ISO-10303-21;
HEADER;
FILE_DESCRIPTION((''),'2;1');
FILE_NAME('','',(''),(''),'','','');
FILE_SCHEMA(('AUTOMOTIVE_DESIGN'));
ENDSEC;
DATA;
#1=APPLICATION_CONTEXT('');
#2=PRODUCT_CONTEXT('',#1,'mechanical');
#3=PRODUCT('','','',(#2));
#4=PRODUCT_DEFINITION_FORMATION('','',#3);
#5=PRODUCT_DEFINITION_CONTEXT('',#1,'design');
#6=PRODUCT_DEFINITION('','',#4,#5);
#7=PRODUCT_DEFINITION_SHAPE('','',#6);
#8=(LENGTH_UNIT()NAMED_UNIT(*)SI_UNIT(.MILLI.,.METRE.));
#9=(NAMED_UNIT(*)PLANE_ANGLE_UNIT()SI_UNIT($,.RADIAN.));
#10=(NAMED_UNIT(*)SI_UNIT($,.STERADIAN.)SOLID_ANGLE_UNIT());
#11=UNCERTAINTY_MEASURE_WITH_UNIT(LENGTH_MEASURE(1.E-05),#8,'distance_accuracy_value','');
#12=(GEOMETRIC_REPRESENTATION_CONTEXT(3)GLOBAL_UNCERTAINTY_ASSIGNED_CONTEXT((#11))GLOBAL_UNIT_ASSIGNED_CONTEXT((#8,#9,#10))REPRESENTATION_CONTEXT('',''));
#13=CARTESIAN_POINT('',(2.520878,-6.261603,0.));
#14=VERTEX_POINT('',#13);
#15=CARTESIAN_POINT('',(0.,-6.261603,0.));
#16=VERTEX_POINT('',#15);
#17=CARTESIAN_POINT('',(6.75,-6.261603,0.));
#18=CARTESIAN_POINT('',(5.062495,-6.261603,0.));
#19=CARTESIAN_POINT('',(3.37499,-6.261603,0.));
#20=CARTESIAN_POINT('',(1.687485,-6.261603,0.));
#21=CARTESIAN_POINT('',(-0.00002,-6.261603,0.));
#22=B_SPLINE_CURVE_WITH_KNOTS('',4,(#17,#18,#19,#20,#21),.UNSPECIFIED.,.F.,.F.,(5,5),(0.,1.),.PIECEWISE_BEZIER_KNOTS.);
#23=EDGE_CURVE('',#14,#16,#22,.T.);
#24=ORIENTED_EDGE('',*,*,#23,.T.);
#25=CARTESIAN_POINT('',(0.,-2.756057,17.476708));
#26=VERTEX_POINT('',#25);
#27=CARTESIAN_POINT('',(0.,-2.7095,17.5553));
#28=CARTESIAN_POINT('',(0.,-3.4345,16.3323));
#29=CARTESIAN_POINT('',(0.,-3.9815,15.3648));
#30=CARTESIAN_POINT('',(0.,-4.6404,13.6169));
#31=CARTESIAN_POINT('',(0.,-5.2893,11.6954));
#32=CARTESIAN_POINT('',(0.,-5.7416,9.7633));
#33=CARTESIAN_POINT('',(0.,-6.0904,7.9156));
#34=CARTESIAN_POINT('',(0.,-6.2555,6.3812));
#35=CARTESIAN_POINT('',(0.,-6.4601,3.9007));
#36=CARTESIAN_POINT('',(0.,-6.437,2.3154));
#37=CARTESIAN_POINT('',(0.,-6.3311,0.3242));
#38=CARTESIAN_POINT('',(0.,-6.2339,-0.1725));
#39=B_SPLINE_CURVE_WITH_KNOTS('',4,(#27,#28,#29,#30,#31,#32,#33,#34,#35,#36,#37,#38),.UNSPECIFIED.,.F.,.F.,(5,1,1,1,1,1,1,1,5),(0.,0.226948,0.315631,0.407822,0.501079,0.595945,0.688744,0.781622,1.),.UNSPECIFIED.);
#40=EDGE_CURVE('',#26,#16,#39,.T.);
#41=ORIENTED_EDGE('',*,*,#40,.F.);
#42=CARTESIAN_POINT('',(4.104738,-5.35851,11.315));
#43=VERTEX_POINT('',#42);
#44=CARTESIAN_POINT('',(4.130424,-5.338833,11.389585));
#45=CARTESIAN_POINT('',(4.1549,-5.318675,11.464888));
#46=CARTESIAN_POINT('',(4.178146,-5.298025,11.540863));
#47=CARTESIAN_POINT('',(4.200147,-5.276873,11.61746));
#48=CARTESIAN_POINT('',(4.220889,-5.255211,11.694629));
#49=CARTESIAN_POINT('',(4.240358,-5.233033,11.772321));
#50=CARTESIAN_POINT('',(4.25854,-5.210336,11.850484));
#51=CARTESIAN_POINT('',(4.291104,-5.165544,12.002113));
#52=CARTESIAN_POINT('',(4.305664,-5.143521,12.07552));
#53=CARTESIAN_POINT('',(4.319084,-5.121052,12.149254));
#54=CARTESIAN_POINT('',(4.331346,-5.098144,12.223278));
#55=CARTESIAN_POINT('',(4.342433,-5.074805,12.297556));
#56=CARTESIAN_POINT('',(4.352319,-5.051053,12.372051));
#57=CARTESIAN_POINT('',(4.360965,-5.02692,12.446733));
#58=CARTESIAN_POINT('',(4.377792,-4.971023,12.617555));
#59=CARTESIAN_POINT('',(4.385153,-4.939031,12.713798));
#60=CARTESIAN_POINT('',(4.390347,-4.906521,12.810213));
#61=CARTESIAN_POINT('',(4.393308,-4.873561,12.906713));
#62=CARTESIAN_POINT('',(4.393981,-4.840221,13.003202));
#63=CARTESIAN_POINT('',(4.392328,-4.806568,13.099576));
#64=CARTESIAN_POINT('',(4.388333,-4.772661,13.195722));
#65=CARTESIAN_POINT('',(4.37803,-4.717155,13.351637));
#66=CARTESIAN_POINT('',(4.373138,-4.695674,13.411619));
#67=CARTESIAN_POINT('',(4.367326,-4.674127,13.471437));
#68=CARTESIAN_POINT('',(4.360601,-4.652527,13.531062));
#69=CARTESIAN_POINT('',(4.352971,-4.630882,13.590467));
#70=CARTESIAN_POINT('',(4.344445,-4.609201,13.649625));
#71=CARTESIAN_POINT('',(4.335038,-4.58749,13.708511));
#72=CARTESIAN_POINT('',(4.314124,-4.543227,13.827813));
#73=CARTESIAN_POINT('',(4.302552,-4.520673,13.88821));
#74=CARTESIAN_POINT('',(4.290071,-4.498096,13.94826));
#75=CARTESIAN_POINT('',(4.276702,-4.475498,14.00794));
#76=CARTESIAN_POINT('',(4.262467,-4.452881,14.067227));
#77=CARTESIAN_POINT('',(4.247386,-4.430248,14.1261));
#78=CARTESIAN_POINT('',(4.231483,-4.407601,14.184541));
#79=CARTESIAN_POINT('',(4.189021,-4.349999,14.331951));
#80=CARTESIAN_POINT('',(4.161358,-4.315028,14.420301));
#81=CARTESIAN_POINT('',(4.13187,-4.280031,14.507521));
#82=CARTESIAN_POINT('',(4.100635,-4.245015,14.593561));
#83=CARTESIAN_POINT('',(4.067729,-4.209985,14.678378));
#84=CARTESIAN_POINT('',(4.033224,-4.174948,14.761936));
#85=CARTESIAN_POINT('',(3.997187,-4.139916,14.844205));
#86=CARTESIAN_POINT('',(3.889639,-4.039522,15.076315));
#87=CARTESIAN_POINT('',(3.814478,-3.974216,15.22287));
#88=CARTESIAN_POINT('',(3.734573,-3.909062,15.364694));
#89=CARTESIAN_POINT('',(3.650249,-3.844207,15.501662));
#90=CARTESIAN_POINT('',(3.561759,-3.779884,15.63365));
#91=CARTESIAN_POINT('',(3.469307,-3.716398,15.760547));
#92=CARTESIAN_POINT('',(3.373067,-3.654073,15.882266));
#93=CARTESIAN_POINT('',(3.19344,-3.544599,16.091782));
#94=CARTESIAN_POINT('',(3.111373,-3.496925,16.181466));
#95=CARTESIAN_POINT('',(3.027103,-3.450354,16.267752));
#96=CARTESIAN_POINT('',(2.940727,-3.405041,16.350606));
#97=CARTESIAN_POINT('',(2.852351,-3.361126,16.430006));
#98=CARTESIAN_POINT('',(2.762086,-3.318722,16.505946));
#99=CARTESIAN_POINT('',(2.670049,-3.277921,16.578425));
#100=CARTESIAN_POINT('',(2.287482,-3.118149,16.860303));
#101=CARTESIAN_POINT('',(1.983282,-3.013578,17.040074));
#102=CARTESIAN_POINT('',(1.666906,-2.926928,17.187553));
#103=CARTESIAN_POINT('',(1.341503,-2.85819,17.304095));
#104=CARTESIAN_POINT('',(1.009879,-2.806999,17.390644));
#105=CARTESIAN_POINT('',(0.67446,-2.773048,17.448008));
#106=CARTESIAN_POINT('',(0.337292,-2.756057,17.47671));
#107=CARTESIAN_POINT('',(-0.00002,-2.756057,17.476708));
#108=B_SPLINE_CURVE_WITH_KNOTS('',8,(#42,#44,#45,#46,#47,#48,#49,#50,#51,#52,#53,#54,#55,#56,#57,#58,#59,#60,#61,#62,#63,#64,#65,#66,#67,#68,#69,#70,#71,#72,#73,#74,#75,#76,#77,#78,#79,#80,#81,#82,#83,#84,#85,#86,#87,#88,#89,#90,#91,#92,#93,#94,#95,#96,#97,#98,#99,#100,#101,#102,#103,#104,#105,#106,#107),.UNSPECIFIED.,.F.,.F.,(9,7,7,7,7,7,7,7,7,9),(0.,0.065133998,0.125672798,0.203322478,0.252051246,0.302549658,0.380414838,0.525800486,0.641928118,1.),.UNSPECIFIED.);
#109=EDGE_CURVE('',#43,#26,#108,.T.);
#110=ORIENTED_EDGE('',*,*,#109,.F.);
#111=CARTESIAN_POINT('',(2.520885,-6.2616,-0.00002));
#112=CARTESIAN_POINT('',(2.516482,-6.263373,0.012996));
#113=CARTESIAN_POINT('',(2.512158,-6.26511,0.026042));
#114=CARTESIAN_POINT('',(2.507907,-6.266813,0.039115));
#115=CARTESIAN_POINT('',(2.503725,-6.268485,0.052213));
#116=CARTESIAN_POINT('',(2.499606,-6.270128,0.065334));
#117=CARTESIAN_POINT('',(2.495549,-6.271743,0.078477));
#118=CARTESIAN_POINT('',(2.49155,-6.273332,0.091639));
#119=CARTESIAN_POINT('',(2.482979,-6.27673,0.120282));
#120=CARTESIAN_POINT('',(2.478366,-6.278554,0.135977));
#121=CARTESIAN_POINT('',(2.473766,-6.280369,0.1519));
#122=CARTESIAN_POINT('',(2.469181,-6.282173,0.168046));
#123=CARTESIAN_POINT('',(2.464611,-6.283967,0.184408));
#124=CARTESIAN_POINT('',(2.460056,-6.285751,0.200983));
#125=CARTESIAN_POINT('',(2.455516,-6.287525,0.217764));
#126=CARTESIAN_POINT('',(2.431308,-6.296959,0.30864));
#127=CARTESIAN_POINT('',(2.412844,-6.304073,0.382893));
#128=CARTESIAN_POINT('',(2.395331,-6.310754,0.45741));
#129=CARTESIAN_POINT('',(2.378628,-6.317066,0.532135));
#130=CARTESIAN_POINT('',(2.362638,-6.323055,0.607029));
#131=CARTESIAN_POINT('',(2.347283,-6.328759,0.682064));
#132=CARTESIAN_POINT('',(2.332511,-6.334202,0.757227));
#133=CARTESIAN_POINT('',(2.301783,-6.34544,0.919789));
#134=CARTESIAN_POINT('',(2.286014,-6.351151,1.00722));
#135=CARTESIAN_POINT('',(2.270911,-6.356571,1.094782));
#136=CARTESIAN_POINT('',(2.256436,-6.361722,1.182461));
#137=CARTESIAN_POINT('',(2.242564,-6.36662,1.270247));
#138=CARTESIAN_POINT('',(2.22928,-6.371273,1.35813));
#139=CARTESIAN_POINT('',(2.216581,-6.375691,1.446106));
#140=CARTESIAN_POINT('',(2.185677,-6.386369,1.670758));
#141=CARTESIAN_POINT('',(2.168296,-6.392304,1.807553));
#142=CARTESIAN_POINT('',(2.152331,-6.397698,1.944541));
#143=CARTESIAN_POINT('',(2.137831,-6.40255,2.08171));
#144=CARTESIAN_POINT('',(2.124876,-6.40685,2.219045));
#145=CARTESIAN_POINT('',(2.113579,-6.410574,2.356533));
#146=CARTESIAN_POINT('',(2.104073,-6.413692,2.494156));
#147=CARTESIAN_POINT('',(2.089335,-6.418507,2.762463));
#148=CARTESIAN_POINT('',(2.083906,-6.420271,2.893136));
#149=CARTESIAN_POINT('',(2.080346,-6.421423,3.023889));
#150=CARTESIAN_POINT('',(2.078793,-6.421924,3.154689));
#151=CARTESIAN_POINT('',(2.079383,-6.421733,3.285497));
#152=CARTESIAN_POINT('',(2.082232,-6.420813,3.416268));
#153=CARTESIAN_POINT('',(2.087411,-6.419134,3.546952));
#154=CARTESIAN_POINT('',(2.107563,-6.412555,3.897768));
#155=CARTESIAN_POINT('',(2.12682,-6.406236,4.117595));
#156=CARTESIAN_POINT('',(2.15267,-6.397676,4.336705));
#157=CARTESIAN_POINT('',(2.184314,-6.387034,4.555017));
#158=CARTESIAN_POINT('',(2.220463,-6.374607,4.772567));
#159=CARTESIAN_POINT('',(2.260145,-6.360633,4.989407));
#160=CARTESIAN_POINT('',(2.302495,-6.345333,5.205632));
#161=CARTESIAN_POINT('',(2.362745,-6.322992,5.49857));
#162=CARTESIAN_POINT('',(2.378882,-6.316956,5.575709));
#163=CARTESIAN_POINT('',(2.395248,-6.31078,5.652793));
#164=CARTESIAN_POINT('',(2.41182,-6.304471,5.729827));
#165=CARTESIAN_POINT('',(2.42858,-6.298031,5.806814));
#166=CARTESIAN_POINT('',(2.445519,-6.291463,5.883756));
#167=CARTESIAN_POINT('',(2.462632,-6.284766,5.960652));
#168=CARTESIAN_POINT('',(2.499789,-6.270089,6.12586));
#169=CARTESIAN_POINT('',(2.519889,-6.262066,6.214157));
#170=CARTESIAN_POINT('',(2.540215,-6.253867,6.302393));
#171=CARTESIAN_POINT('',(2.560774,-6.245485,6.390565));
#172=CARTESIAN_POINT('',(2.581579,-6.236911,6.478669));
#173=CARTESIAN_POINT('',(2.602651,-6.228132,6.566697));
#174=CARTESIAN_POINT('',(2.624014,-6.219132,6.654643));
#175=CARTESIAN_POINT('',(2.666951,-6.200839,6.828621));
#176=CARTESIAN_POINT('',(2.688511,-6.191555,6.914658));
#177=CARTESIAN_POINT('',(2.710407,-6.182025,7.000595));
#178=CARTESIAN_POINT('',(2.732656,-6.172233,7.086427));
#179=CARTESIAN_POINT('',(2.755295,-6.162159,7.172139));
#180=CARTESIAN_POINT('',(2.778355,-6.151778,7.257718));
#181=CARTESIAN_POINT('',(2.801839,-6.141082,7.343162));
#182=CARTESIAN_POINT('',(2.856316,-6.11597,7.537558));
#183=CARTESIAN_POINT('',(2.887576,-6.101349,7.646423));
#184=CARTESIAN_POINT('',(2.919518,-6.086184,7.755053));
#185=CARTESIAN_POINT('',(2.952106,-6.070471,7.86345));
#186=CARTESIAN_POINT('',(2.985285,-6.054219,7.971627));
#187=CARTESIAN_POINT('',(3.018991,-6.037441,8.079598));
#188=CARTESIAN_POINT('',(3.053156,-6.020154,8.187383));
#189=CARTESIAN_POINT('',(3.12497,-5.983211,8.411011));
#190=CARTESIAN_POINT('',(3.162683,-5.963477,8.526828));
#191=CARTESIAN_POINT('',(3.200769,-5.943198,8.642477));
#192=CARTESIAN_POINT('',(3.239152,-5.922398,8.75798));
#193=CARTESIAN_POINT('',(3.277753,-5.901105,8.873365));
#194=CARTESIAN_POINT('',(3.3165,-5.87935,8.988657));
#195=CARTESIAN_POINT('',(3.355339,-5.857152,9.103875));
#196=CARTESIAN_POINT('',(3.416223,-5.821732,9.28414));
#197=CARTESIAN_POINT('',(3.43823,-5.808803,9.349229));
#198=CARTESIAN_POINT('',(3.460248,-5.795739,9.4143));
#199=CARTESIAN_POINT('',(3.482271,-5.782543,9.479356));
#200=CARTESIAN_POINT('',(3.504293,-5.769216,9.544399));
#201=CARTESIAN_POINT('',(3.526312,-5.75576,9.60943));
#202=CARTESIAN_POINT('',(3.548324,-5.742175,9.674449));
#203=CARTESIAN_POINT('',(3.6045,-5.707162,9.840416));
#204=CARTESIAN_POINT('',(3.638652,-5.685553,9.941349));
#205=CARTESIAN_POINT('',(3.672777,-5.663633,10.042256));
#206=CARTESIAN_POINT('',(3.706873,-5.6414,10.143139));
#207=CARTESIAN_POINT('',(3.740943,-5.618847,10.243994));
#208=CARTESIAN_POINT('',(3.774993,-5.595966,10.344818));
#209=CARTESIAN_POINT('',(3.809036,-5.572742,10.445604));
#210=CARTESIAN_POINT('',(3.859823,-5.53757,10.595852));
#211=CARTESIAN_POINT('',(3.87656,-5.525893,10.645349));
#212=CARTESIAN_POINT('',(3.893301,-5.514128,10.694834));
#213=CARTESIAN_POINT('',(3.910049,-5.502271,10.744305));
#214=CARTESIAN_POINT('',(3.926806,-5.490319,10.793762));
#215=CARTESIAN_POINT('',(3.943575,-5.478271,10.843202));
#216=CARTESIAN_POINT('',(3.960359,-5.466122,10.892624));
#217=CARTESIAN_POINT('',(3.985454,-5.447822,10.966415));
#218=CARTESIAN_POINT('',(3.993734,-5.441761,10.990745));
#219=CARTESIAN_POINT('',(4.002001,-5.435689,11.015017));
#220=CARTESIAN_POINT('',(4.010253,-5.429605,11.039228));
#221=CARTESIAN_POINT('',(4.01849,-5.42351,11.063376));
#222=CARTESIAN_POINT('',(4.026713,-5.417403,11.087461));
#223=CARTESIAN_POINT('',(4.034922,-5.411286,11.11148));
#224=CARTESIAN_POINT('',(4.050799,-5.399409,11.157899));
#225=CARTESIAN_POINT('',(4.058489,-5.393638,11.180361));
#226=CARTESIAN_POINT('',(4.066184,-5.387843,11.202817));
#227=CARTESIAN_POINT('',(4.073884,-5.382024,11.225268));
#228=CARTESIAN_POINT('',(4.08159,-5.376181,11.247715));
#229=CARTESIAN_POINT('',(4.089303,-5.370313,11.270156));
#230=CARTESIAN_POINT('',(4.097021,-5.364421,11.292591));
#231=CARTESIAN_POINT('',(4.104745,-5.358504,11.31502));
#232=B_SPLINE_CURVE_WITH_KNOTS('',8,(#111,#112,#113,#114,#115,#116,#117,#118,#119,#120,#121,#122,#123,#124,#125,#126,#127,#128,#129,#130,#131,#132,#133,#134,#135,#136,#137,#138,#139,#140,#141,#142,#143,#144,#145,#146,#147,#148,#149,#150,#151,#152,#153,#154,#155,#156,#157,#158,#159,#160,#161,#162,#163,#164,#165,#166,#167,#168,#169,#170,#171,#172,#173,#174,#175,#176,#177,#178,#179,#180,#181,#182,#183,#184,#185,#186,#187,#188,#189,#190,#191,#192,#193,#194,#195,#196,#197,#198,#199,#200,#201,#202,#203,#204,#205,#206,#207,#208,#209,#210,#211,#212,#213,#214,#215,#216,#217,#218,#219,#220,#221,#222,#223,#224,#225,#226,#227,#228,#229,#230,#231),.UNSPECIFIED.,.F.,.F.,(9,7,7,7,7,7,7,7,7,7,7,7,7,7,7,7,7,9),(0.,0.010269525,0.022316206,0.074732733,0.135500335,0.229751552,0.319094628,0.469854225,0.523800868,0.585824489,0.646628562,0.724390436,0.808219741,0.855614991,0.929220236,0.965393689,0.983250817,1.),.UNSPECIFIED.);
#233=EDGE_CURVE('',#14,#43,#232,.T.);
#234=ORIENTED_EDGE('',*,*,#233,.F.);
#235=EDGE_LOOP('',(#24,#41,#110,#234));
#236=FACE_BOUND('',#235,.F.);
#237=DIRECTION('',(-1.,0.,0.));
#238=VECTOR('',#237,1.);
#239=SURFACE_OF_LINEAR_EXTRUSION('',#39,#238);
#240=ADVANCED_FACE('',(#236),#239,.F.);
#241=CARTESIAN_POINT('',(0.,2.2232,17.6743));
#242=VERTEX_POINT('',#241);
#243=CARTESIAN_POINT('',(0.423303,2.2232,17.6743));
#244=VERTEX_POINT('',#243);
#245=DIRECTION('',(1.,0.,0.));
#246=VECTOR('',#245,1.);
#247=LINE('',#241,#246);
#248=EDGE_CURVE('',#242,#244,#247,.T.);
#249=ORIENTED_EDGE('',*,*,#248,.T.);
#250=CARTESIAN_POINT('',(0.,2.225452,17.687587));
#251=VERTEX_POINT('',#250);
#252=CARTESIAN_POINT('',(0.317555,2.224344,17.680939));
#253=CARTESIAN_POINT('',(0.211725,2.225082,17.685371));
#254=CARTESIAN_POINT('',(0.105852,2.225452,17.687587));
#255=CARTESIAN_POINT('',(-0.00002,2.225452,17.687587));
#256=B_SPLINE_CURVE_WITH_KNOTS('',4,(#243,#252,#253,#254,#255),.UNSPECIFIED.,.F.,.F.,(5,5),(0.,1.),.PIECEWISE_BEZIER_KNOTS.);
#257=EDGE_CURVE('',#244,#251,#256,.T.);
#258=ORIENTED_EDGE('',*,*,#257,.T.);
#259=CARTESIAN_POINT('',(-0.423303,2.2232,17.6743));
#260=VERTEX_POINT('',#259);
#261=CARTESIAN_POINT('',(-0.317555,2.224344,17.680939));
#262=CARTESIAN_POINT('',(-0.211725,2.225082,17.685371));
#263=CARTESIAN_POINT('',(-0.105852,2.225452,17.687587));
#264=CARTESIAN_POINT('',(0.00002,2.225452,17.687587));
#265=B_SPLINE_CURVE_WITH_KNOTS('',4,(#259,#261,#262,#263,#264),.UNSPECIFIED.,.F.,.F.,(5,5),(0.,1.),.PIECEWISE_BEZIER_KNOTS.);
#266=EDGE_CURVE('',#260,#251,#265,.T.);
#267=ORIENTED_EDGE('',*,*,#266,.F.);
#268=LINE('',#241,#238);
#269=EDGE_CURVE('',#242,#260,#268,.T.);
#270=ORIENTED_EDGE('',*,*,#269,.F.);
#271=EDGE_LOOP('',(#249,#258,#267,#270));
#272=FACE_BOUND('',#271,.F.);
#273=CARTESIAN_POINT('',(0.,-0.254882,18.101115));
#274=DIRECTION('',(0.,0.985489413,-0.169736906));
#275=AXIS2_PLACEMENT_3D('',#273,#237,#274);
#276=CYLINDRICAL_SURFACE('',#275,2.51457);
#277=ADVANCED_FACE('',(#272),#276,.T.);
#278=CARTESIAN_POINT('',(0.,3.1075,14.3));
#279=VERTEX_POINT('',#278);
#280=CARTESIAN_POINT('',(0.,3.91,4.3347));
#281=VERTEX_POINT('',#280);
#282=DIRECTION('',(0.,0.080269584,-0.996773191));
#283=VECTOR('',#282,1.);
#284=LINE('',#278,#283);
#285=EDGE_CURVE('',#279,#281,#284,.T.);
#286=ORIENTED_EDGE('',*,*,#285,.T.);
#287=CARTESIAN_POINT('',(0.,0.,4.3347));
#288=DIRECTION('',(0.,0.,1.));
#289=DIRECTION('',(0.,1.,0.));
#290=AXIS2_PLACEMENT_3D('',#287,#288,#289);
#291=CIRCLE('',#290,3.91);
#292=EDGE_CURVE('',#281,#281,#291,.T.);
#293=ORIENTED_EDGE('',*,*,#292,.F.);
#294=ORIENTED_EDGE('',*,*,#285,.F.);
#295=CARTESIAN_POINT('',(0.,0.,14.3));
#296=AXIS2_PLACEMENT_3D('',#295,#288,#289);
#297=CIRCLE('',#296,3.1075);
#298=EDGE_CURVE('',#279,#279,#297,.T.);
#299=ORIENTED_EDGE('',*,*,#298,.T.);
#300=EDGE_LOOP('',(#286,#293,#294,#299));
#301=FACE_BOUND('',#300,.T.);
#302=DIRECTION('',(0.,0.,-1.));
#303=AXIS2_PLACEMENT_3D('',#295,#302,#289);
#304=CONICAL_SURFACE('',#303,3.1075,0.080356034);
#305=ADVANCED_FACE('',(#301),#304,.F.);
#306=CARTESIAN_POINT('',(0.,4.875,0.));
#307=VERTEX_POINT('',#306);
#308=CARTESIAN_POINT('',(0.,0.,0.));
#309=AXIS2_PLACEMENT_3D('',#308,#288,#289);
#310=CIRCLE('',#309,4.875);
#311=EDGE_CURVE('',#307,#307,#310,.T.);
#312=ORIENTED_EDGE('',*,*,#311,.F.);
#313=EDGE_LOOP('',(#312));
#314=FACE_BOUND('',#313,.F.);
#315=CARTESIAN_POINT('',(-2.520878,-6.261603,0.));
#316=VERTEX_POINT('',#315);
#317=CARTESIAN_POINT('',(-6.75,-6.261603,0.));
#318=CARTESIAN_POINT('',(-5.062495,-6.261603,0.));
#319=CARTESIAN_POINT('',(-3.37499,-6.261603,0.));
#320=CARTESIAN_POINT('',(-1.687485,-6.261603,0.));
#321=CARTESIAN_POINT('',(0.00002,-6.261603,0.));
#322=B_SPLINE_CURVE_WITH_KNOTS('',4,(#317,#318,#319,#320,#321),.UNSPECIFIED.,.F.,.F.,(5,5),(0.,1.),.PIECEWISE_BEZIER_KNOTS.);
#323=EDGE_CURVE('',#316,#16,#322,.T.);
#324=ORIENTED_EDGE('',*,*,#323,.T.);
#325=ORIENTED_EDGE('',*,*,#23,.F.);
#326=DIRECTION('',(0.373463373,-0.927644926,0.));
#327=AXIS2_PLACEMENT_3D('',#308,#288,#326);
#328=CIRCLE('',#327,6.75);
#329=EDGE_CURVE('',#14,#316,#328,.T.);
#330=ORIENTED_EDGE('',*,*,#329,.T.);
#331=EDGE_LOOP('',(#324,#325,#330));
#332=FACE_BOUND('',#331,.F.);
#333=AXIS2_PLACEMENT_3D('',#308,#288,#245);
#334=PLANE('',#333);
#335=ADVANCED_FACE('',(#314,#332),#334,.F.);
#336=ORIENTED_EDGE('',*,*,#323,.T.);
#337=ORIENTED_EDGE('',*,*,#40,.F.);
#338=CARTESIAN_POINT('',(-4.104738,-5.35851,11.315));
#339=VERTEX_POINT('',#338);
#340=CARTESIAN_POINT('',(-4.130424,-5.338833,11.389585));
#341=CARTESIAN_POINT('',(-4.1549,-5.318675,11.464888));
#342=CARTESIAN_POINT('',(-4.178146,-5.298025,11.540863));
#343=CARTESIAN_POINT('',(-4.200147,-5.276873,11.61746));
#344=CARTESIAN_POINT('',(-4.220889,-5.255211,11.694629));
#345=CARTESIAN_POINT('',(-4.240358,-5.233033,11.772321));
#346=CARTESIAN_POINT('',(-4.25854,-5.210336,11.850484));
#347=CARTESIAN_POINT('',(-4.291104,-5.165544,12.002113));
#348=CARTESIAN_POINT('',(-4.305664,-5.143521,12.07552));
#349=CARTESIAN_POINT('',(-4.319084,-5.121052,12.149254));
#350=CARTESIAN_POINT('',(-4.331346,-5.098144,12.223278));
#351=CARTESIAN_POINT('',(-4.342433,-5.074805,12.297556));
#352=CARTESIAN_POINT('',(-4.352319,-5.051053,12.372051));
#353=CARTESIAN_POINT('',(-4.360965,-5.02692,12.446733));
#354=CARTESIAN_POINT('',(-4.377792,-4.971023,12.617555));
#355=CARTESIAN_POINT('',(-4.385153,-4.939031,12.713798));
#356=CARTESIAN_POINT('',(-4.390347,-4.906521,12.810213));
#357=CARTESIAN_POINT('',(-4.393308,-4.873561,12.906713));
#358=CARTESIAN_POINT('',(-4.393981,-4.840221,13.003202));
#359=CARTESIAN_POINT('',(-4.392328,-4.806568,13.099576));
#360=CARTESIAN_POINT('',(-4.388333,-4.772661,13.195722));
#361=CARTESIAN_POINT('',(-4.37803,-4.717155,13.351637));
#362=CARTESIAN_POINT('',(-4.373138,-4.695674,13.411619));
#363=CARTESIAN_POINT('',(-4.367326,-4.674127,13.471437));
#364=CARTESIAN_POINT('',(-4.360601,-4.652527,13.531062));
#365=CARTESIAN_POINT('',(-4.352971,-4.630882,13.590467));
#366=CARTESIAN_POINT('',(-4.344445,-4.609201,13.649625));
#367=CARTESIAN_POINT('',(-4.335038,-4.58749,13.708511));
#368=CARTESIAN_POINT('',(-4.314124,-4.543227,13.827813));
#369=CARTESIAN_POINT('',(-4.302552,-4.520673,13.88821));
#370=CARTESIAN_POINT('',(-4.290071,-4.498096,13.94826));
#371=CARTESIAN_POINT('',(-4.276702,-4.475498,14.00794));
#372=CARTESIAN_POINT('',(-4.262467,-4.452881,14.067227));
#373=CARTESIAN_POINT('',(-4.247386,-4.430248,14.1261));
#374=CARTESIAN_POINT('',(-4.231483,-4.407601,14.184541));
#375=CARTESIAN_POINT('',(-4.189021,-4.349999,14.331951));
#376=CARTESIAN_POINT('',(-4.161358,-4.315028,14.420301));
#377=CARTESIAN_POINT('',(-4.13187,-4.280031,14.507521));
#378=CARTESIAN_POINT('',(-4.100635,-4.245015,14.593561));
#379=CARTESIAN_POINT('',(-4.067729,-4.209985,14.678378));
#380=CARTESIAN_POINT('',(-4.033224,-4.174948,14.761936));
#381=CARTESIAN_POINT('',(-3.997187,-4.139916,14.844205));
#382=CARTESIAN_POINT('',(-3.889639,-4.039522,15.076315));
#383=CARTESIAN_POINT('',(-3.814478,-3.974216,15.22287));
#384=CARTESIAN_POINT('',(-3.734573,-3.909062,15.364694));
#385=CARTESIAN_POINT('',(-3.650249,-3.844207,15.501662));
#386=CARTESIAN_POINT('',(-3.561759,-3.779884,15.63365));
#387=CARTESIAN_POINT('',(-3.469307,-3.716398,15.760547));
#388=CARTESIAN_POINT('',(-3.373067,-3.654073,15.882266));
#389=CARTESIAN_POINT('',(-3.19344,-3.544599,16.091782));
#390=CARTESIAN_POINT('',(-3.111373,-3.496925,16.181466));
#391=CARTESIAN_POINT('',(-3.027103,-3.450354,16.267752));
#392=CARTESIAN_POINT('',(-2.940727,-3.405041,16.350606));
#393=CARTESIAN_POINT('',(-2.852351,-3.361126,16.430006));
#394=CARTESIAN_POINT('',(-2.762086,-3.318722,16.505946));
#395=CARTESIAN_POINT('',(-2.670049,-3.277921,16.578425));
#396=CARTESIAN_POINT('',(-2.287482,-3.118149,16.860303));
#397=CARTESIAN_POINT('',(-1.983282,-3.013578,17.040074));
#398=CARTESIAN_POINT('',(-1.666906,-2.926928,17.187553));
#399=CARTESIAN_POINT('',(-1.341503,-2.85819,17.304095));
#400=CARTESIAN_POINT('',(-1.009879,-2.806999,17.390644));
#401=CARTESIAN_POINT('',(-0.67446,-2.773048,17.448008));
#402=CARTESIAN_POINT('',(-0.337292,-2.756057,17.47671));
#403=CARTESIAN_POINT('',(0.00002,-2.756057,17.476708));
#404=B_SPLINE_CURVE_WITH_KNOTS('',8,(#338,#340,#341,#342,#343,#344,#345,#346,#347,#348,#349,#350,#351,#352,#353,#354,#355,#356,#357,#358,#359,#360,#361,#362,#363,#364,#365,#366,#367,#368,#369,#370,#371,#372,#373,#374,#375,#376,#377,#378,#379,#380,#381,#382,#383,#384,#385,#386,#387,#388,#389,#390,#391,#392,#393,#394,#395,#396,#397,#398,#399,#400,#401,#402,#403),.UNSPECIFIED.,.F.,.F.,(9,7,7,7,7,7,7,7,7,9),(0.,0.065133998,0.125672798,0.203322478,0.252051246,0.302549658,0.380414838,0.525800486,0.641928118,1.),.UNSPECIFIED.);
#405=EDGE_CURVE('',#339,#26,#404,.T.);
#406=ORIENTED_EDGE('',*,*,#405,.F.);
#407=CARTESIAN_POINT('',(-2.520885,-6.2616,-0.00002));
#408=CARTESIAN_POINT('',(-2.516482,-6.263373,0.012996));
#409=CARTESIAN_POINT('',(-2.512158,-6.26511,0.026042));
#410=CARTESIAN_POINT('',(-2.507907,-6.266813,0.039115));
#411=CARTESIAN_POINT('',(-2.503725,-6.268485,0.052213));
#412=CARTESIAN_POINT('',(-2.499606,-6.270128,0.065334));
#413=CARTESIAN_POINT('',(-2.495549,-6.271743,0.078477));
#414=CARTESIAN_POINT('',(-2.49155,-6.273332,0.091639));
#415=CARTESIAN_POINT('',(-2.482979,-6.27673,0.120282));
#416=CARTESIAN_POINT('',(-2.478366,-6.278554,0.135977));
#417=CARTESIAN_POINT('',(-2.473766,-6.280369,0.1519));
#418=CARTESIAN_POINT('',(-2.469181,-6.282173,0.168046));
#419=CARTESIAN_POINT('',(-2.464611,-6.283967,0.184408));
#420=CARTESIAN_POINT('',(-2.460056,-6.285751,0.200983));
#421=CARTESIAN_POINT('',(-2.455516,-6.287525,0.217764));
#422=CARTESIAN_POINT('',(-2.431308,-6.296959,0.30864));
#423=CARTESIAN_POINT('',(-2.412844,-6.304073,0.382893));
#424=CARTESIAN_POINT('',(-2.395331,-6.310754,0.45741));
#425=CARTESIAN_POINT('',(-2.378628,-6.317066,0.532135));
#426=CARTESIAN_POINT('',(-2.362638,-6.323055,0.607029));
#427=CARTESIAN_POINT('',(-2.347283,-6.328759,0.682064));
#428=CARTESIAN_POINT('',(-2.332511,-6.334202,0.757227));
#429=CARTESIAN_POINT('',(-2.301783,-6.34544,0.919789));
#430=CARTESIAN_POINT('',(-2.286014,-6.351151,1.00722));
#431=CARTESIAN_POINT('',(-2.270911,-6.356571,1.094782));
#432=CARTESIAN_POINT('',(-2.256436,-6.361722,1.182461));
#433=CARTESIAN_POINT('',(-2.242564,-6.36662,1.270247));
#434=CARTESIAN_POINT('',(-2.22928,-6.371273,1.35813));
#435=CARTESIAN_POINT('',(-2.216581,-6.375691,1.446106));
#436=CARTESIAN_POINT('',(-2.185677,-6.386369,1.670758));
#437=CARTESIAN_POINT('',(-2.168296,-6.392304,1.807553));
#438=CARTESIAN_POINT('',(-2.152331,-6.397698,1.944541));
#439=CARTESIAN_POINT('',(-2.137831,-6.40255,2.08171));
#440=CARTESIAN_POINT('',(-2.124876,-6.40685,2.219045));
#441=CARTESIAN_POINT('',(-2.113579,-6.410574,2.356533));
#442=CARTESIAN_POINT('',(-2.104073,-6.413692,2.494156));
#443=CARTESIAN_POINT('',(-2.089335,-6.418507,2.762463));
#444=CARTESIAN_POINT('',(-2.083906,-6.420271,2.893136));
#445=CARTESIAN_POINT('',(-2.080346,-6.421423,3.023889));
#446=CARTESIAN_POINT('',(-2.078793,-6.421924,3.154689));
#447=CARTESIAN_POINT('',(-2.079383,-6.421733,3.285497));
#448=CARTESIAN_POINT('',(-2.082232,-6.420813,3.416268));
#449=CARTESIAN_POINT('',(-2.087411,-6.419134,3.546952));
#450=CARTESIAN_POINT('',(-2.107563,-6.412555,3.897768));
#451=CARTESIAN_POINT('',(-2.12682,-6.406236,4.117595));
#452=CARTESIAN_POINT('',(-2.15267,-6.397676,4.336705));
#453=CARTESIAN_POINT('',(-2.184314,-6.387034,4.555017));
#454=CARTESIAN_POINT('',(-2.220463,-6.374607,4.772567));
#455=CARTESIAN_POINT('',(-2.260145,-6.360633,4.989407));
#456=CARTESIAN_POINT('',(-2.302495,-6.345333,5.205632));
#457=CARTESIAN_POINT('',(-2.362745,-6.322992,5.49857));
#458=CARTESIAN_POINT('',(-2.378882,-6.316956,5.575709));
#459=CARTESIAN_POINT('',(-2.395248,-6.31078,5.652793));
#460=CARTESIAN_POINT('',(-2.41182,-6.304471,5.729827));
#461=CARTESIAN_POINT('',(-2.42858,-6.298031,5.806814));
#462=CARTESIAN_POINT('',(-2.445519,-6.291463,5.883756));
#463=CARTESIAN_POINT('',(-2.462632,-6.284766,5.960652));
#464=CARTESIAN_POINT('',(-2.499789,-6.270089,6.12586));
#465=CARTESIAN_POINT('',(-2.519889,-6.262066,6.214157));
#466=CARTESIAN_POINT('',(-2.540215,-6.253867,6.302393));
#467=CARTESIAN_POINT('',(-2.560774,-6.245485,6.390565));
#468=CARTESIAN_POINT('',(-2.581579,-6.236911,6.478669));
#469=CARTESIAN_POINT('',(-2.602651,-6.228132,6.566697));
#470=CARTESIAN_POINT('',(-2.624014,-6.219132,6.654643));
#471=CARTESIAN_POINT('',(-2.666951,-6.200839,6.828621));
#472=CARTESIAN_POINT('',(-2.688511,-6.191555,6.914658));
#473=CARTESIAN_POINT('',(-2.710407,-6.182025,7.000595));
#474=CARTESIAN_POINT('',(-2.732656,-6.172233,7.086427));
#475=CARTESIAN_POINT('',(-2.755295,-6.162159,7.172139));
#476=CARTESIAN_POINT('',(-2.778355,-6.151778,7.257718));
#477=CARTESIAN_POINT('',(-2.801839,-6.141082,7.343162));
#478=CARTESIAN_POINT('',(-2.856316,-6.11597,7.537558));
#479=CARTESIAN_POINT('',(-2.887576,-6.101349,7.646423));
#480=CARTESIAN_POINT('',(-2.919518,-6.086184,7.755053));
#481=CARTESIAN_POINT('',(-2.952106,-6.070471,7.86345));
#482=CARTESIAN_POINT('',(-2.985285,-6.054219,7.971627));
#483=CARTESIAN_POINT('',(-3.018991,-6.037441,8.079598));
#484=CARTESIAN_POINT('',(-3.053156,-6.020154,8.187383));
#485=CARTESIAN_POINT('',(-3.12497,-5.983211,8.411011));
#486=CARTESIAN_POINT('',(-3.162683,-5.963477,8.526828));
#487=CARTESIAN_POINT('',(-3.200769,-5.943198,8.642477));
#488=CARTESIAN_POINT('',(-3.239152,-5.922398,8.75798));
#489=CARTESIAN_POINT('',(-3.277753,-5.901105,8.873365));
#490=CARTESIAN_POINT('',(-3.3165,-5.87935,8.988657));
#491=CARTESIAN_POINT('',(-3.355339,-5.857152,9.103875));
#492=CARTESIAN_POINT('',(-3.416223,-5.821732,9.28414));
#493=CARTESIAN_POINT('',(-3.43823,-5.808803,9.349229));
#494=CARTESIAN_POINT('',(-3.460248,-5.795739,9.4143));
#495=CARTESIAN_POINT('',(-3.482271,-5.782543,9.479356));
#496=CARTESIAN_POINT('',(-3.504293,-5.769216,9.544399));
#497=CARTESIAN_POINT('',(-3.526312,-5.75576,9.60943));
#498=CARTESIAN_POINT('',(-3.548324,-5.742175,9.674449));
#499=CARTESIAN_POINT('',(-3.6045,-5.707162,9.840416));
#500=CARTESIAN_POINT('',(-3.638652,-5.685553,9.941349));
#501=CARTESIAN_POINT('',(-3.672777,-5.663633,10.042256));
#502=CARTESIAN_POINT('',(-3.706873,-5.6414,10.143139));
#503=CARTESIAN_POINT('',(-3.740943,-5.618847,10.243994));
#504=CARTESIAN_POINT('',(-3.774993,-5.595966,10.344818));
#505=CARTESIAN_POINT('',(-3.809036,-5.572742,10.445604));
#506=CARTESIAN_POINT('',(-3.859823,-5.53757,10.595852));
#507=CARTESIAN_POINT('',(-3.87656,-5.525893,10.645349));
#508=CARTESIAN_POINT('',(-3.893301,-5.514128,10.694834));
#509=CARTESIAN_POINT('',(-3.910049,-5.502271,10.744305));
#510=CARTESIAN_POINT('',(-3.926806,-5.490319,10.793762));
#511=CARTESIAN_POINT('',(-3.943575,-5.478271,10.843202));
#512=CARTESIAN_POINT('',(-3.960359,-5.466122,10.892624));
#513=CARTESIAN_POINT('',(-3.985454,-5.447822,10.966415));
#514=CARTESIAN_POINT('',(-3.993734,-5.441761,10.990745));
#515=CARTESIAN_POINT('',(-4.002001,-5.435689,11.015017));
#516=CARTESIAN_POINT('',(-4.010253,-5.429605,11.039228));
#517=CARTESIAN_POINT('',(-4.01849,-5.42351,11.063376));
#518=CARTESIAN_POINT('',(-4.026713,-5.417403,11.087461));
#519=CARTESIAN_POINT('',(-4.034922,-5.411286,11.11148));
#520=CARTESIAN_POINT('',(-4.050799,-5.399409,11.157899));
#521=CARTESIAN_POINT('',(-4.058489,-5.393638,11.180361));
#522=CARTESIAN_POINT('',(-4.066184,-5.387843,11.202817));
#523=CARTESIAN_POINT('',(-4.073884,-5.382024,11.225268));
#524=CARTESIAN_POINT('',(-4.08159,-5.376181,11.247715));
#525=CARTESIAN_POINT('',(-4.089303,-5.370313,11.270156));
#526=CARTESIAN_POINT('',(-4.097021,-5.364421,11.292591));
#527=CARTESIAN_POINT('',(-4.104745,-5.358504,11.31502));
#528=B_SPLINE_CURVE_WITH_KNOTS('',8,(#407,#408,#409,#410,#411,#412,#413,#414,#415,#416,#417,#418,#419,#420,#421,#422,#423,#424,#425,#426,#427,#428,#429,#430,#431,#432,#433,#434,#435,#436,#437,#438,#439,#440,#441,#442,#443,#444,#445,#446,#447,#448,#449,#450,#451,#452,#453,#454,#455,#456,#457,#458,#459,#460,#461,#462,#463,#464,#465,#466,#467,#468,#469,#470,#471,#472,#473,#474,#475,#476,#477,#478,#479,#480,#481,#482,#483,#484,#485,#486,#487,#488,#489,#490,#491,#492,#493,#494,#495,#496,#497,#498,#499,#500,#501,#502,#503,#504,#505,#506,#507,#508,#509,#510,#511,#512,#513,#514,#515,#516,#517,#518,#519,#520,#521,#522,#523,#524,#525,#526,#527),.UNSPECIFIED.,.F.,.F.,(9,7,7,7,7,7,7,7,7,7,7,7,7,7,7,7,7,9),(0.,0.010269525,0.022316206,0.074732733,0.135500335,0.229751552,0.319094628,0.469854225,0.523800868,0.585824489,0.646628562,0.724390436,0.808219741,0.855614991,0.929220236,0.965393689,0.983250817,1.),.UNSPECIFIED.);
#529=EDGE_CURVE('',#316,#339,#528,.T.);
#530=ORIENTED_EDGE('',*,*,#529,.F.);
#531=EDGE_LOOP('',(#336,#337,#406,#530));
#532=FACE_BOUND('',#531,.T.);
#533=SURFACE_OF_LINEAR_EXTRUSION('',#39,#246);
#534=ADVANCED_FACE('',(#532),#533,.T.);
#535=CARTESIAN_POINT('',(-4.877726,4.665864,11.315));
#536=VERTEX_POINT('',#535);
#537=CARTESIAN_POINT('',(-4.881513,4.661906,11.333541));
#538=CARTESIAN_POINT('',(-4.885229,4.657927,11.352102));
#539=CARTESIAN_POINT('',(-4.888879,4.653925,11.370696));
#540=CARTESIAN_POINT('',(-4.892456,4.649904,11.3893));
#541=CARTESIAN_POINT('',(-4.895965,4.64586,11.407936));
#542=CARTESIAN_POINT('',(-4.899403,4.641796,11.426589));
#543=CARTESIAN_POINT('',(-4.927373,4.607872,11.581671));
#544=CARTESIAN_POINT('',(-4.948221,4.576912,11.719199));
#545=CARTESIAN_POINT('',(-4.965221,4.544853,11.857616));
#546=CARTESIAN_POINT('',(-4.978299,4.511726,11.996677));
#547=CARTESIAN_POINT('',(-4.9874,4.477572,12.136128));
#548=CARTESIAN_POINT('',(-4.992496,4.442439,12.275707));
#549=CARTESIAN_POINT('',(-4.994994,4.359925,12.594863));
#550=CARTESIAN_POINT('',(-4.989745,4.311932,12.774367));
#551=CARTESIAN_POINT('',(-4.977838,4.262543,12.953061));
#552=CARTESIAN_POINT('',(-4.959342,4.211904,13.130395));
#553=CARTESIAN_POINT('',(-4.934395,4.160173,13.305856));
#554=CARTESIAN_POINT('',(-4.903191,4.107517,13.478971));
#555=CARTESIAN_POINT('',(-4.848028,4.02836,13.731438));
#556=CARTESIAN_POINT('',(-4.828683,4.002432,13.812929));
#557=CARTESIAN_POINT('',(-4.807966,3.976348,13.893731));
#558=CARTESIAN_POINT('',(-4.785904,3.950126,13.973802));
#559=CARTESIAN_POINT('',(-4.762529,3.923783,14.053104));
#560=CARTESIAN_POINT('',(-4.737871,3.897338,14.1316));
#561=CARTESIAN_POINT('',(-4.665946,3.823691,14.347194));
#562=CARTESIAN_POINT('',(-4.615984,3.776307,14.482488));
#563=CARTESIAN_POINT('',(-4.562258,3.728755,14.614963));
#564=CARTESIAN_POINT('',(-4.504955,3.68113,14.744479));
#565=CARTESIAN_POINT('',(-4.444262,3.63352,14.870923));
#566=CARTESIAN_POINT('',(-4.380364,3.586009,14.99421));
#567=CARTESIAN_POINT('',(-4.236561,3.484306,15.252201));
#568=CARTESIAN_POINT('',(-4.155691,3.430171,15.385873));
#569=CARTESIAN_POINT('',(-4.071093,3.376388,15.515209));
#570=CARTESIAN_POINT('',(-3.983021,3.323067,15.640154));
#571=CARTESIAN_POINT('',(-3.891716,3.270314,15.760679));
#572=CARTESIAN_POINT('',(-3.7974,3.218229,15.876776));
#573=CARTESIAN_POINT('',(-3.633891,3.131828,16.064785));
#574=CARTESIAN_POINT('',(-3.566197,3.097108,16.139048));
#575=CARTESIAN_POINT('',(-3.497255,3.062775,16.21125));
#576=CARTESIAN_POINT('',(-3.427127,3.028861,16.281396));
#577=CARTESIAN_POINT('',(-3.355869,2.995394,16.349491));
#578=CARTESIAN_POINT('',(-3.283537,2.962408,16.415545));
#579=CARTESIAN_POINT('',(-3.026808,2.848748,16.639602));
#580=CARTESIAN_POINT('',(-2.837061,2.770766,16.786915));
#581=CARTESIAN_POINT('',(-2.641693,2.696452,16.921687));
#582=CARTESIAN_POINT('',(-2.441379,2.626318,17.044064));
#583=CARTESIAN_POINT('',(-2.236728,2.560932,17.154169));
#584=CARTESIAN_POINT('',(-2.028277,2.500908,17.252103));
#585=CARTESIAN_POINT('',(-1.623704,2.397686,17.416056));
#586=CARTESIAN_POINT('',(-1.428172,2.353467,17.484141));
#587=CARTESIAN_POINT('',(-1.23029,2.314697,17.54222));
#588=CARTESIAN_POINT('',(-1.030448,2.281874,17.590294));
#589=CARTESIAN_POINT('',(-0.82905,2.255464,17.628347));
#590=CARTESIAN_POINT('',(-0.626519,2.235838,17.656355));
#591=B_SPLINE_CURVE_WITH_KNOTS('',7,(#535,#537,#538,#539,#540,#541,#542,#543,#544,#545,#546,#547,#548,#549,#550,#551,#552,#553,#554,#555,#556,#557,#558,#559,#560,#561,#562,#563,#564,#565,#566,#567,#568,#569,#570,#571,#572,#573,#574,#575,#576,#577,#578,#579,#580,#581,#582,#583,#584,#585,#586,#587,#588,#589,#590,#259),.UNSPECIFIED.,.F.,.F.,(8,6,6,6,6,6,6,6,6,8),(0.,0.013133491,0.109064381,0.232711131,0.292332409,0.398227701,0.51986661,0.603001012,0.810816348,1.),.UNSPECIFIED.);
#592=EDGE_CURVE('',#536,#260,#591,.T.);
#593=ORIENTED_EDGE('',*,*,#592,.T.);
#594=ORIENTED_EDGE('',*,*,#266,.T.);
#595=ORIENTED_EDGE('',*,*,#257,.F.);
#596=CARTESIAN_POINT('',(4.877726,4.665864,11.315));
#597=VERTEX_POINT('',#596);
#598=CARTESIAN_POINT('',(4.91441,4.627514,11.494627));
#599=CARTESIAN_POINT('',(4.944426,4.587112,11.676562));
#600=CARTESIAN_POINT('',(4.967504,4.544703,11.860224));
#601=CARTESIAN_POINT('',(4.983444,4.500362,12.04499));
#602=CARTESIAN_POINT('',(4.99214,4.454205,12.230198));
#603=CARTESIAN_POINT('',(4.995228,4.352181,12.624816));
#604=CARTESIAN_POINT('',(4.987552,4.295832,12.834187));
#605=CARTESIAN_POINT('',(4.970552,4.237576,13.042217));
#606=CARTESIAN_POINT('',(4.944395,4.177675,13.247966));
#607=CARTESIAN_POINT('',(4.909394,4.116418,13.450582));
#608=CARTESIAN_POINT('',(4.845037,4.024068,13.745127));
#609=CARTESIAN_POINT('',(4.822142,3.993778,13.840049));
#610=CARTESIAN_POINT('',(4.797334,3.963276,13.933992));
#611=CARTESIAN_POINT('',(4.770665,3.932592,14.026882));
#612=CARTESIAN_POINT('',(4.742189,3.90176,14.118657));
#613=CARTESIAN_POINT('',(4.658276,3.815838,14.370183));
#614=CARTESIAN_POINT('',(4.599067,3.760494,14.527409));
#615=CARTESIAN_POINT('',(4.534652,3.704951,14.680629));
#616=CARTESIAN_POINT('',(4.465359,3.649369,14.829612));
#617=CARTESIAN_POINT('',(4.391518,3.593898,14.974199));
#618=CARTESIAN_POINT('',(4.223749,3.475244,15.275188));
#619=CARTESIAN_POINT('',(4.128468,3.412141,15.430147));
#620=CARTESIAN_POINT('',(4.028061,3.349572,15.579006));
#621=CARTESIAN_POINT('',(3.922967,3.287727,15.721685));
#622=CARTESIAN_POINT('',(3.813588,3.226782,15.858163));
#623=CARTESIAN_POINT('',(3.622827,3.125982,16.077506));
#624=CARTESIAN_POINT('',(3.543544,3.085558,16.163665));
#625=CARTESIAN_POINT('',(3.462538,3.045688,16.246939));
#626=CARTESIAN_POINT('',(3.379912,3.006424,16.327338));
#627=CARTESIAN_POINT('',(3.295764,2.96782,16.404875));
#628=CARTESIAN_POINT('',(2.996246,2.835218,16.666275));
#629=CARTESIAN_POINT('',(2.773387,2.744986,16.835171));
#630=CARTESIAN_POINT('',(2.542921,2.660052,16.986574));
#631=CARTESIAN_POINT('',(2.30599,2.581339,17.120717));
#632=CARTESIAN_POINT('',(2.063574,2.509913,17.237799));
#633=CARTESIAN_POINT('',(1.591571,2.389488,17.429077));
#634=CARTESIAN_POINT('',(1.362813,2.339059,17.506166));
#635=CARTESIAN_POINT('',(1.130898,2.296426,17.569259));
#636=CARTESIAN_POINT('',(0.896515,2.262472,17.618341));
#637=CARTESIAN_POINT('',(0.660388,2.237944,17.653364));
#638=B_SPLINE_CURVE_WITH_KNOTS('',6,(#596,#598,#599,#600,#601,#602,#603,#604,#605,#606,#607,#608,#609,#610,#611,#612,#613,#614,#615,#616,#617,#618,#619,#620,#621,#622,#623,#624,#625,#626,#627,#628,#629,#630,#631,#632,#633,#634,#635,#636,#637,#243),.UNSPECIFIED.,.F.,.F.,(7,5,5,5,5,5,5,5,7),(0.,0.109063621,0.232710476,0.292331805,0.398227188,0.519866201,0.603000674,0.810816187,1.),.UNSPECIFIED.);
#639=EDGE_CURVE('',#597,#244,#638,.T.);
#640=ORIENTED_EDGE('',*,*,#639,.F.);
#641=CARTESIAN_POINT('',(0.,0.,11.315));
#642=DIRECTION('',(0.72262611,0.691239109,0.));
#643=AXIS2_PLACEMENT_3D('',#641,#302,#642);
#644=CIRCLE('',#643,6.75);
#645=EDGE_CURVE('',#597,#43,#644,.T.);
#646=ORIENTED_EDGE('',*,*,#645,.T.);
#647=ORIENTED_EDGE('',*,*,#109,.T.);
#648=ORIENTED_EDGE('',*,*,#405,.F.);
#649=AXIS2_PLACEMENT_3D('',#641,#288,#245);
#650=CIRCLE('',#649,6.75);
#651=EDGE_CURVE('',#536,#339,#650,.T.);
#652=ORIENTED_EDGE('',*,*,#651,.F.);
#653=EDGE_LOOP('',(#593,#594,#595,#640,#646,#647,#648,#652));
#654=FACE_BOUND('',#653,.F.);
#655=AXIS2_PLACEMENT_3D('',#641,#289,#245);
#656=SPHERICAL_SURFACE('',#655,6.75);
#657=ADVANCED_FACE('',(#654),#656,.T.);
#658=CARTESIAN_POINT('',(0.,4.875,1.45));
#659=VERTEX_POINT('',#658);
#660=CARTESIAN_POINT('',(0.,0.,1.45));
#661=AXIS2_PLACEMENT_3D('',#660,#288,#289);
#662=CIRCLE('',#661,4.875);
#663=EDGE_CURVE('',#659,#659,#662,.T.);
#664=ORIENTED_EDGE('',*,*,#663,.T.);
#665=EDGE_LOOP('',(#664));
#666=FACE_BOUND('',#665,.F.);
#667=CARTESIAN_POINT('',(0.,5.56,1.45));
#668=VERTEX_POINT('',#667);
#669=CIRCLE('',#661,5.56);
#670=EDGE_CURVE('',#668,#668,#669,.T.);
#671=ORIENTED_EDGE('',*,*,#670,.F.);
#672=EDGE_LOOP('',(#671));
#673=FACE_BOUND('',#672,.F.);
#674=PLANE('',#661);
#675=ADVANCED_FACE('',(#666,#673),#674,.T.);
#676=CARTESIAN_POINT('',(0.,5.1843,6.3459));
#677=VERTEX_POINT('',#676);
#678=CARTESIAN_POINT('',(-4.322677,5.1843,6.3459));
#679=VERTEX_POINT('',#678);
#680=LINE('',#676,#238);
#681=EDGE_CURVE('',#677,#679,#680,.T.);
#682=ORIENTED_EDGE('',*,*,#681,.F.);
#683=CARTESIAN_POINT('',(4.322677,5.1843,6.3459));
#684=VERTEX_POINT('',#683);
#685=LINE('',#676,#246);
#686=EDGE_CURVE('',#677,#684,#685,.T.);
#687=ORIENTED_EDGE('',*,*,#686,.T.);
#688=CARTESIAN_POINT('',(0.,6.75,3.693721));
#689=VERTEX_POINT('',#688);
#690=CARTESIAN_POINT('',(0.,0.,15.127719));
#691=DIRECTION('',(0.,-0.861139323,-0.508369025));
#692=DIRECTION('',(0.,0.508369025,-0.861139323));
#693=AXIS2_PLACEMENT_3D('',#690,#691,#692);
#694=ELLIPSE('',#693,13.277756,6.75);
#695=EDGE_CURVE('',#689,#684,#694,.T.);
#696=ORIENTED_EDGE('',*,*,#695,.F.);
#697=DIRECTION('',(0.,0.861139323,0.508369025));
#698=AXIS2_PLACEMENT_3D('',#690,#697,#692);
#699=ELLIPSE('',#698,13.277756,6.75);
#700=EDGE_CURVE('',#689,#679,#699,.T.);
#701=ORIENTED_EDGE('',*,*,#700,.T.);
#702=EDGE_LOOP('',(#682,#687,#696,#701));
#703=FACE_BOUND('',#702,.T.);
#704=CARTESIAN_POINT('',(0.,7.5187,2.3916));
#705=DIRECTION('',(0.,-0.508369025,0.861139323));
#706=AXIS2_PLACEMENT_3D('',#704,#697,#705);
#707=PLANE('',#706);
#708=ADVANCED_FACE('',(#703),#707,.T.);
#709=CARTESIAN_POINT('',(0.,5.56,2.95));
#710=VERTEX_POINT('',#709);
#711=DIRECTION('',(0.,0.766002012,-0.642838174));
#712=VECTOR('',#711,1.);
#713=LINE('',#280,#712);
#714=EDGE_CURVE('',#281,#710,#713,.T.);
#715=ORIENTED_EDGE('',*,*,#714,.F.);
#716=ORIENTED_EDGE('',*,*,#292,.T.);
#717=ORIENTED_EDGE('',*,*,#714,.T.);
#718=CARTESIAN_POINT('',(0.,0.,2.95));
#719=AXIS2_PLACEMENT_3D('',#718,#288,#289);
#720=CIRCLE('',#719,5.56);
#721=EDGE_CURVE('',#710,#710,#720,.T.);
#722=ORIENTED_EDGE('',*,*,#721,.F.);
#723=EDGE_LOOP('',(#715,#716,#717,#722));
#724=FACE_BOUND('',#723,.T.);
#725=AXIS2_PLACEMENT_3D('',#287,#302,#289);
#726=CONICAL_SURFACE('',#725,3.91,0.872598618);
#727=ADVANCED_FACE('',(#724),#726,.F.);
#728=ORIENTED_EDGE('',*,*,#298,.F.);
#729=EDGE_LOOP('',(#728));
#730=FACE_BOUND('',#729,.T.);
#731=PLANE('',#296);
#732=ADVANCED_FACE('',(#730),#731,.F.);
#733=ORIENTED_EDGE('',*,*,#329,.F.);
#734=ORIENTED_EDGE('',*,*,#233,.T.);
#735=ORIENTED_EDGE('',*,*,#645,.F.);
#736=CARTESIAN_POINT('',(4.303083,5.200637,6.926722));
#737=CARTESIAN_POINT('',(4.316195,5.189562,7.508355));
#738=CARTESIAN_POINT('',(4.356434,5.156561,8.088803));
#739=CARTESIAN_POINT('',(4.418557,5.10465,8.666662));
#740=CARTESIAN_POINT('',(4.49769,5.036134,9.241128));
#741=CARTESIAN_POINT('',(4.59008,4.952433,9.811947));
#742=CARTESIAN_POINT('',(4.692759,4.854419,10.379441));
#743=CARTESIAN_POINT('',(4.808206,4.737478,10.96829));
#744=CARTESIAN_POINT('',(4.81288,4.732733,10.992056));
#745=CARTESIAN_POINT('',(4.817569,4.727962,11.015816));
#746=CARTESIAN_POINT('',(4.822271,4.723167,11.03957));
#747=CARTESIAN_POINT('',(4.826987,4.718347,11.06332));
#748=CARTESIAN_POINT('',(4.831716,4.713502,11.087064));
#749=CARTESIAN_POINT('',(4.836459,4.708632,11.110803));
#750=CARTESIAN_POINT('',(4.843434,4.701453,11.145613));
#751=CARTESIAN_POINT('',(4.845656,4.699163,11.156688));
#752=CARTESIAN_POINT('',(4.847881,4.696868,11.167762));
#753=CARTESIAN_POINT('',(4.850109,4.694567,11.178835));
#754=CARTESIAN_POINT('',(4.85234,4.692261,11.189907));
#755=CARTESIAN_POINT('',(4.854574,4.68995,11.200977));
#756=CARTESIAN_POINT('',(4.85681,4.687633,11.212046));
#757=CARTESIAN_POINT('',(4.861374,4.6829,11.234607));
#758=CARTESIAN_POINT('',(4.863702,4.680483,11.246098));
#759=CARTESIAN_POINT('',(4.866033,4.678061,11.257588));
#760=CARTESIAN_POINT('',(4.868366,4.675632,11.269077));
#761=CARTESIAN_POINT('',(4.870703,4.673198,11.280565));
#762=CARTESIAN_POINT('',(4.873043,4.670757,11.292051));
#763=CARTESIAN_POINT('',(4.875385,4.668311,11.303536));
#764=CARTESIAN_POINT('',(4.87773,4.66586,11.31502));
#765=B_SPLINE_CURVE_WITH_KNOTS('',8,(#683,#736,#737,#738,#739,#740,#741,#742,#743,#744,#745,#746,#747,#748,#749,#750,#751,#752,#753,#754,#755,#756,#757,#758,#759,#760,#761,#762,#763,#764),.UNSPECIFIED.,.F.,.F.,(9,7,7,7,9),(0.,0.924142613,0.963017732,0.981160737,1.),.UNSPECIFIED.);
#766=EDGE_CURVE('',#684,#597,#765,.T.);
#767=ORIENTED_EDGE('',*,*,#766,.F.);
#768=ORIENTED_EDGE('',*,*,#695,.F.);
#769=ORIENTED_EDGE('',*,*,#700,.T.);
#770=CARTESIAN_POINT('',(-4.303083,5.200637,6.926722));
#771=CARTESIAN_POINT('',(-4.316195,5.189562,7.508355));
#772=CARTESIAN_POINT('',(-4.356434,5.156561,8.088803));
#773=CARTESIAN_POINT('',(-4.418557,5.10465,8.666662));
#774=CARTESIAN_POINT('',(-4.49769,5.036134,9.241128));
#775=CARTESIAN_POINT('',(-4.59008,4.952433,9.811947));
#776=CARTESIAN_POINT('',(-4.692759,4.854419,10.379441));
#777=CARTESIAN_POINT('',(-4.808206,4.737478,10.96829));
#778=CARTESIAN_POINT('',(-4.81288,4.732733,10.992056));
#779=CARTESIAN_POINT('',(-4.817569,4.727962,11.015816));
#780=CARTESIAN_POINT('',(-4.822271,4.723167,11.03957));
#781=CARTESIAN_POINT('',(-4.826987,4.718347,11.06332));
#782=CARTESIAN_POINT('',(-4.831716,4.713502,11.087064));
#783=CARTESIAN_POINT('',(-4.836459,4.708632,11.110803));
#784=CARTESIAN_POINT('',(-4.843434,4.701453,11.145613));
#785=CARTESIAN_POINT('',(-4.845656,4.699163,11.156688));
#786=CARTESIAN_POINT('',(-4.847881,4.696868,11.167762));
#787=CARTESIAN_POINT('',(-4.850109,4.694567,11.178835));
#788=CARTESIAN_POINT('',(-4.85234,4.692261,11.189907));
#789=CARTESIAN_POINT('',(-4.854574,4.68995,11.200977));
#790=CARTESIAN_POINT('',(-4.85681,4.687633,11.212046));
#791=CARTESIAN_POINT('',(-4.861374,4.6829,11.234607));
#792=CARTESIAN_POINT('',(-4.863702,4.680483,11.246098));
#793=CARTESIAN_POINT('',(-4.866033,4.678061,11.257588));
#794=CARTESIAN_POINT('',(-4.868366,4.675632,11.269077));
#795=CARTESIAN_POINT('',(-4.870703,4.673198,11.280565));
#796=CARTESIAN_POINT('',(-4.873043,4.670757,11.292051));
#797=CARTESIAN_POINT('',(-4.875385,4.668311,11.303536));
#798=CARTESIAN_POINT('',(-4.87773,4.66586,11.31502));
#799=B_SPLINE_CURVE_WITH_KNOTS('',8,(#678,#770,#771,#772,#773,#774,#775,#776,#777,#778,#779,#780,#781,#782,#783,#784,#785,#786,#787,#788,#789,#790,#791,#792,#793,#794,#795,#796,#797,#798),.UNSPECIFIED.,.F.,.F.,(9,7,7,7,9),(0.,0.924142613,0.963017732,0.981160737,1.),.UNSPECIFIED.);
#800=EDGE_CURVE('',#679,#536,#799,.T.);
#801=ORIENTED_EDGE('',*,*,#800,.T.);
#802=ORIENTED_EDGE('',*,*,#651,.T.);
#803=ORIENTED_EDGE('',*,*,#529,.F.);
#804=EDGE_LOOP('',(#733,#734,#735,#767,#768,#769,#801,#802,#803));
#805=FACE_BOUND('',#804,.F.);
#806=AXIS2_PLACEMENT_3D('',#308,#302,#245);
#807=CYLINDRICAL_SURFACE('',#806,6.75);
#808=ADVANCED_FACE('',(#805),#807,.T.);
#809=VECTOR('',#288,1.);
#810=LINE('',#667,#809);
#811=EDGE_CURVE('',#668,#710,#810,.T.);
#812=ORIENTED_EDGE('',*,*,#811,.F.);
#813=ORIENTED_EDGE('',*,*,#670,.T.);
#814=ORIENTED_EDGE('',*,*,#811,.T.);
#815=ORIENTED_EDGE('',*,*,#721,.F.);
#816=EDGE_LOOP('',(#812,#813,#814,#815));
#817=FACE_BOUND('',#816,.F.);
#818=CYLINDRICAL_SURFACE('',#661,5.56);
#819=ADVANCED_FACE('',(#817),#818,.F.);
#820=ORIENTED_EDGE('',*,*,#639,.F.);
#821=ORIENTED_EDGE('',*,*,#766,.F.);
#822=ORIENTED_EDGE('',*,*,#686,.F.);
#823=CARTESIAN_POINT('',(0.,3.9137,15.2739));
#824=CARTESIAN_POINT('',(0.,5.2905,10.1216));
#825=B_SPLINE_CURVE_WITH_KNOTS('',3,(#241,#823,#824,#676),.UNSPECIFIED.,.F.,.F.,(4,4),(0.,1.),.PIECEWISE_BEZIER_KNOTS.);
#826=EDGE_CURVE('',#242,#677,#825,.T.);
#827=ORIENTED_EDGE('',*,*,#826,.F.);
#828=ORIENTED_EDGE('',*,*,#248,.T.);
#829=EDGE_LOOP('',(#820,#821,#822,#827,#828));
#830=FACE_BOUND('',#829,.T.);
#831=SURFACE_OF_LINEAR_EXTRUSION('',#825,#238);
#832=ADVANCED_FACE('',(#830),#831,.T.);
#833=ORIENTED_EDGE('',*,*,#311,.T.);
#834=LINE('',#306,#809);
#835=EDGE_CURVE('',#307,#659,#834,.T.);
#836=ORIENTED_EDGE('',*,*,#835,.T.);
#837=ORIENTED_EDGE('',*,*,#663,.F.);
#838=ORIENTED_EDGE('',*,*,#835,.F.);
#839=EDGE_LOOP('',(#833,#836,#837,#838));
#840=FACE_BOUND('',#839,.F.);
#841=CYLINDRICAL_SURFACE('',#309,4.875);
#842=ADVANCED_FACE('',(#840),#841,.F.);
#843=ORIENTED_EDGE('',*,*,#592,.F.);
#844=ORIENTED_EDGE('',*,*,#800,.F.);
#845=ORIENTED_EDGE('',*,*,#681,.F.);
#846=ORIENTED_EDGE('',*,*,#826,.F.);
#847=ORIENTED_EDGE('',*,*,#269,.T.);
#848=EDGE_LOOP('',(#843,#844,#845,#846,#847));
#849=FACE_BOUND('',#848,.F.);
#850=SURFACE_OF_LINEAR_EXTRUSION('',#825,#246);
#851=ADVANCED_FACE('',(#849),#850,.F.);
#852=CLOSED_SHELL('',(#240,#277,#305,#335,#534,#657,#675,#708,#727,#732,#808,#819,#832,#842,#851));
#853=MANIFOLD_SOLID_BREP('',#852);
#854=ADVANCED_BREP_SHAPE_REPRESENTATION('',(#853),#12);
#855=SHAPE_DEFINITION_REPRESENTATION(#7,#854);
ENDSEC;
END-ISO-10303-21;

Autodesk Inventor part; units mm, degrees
ref_plane "YZ Plane" through (0, 0, 0) normal (1, 0, 0) x (0, 1, 0)
ref_plane "XZ Plane" through (0, 0, 0) normal (0, 1, 0) x (-1, 0, 0)
ref_plane "XY Plane" through (0, 0, 0) normal (0, 0, 1) x (1, 0, 0)
sketch "Sketch1" plane through (0, 0, 0) normal (0, 0, 1) x (1, 0, 0)
  circle A0 centre (0, 0) radius 6.75
  dimension "d0" = 13.5
extrude "Extrusion1" add sketch "Sketch1" along normal blind 11.315
sketch "Sketch2" plane through (0, 0, 11.315) normal (0, 0, 1) x (1, 0, 0)
  arc A0 (0, -6.75) -> (0, 6.75) centre (0, 0) ccw
  line L0 (0, 6.75) -> (0, -6.75)
revolve "Revolution1" add sketch "Sketch2" angle 360 about axis through (0, 6.75, 11.315) along (0, -1, 0)
sketch "Sketch3" plane through (0, 0, 0) normal (1, 0, 0) x (0, 1, 0)
  line L0 (6.9939, 18.3652) -> (6.9939, -0.2867) construction
  line L1 (6.9939, -0.2867) -> (-6.6981, -0.2867) construction
  line L2 (-6.6981, -0.2867) -> (-6.6981, 18.3652) construction
  line L3 (-6.6981, 18.3652) -> (6.9939, 18.3652) construction
  line L4 (7.5187, 2.3916) -> (5.1843, 6.3459)
  spline S0 degree 3 poles (2.2232, 17.6743) (3.9137, 15.2739) (5.2905, 10.1216) (5.1843, 6.3459) knots 0 0 0 0 1 1 1 1
  spline S1 degree 4 poles (-2.7095, 17.5553) (-3.4345, 16.3323) (-3.9815, 15.3648) (-4.6404, 13.6169) (-5.2893, 11.6954) (-5.7416, 9.7633) (-6.0904, 7.9156) (-6.2555, 6.3812) (-6.4601, 3.9007) (-6.437, 2.3154) (-6.3311, 0.3242) (-6.2339, -0.1725) knots 0 0 0 0 0 0.226948 0.315631 0.407822 0.501079 0.595945 0.688744 0.781622 1 1 1 1 1
  arc A0 (2.2232, 17.6743) -> (-2.7095, 17.5553) centre (-0.2549, 18.1011) ccw
  line L5 (7.5187, 2.3916) -> (7.6074, -3.0566)
  line L6 (7.6074, -3.0566) -> (-6.5982, -2.034)
  line L7 (-6.5982, -2.034) -> (-6.1989, -0.3494)
  line L8 (-6.1989, -0.3494) -> (-6.2339, -0.1725)
  line L9 (-10.6943, 22.9274) -> (9.6594, 22.9274)
  line L10 (9.6594, 22.9274) -> (9.6594, -5.6031)
  line L11 (9.6594, -5.6031) -> (-10.6943, -5.6031)
  line L12 (-10.6943, -5.6031) -> (-10.6943, 22.9274)
  line L13 (-10.6943, 22.9274) -> (9.6594, -5.6031) construction
  line L14 (9.6594, 22.9274) -> (-10.6943, -5.6031) construction
  point P0 (0, 0)
  point P1 (3.606, 14.941)
  point P2 (4.8031, 10.6278)
  point P3 (-3.6969, 15.797)
  point P4 (-4.2759, 14.5167)
  point P5 (-4.7839, 13.1635)
  point P6 (-5.2449, 11.7299)
  point P7 (-5.7181, 9.7886)
  point P8 (-6.0639, 7.9039)
  point P9 (-6.252, 6.3205)
  point P10 (-6.3835, 4.5875)
  point P11 (-6.4199, 2.9071)
  point P12 (-6.3492, 0.98)
  point P13 (-0.5174, 8.6621)
extrude "Extrusion2" cut sketch "Sketch3" against normal mid plane 15.315
sketch "Sketch4" plane through (0, 0, 0) normal (1, 0, 0) x (0, 1, 0)
  line L0 (0, 0) -> (4.875, 0)
  line L1 (6.75, 0) -> (-6.2616, 0) projected
  line L2 (4.875, 0) -> (4.875, 1.45)
  line L3 (4.875, 1.45) -> (5.56, 1.45)
  line L4 (5.56, 1.45) -> (5.56, 2.95)
  line L5 (5.56, 2.95) -> (5.56, 4.2347)
  line L6 (3.91, 4.3347) -> (5.56, 2.95)
  line L7 (0, 0) -> (0, 14.3)
  line L8 (0, 14.3) -> (3.1075, 14.3)
  line L9 (3.1075, 14.3) -> (3.91, 4.3347)
  dimension "d57" = 4.875
  dimension "d58" = 1.45
  dimension "d59" = 0.685
  dimension "d60" = 1.5
  dimension "d61" = 1.2847
  dimension "d63" = 14.3
  dimension "d64" = 3.1075
revolve "Revolution2" cut sketch "Sketch4" angle 360 about axis through (0, 0, 0) along (0, 0, 1)
properties part number "TipTip"
